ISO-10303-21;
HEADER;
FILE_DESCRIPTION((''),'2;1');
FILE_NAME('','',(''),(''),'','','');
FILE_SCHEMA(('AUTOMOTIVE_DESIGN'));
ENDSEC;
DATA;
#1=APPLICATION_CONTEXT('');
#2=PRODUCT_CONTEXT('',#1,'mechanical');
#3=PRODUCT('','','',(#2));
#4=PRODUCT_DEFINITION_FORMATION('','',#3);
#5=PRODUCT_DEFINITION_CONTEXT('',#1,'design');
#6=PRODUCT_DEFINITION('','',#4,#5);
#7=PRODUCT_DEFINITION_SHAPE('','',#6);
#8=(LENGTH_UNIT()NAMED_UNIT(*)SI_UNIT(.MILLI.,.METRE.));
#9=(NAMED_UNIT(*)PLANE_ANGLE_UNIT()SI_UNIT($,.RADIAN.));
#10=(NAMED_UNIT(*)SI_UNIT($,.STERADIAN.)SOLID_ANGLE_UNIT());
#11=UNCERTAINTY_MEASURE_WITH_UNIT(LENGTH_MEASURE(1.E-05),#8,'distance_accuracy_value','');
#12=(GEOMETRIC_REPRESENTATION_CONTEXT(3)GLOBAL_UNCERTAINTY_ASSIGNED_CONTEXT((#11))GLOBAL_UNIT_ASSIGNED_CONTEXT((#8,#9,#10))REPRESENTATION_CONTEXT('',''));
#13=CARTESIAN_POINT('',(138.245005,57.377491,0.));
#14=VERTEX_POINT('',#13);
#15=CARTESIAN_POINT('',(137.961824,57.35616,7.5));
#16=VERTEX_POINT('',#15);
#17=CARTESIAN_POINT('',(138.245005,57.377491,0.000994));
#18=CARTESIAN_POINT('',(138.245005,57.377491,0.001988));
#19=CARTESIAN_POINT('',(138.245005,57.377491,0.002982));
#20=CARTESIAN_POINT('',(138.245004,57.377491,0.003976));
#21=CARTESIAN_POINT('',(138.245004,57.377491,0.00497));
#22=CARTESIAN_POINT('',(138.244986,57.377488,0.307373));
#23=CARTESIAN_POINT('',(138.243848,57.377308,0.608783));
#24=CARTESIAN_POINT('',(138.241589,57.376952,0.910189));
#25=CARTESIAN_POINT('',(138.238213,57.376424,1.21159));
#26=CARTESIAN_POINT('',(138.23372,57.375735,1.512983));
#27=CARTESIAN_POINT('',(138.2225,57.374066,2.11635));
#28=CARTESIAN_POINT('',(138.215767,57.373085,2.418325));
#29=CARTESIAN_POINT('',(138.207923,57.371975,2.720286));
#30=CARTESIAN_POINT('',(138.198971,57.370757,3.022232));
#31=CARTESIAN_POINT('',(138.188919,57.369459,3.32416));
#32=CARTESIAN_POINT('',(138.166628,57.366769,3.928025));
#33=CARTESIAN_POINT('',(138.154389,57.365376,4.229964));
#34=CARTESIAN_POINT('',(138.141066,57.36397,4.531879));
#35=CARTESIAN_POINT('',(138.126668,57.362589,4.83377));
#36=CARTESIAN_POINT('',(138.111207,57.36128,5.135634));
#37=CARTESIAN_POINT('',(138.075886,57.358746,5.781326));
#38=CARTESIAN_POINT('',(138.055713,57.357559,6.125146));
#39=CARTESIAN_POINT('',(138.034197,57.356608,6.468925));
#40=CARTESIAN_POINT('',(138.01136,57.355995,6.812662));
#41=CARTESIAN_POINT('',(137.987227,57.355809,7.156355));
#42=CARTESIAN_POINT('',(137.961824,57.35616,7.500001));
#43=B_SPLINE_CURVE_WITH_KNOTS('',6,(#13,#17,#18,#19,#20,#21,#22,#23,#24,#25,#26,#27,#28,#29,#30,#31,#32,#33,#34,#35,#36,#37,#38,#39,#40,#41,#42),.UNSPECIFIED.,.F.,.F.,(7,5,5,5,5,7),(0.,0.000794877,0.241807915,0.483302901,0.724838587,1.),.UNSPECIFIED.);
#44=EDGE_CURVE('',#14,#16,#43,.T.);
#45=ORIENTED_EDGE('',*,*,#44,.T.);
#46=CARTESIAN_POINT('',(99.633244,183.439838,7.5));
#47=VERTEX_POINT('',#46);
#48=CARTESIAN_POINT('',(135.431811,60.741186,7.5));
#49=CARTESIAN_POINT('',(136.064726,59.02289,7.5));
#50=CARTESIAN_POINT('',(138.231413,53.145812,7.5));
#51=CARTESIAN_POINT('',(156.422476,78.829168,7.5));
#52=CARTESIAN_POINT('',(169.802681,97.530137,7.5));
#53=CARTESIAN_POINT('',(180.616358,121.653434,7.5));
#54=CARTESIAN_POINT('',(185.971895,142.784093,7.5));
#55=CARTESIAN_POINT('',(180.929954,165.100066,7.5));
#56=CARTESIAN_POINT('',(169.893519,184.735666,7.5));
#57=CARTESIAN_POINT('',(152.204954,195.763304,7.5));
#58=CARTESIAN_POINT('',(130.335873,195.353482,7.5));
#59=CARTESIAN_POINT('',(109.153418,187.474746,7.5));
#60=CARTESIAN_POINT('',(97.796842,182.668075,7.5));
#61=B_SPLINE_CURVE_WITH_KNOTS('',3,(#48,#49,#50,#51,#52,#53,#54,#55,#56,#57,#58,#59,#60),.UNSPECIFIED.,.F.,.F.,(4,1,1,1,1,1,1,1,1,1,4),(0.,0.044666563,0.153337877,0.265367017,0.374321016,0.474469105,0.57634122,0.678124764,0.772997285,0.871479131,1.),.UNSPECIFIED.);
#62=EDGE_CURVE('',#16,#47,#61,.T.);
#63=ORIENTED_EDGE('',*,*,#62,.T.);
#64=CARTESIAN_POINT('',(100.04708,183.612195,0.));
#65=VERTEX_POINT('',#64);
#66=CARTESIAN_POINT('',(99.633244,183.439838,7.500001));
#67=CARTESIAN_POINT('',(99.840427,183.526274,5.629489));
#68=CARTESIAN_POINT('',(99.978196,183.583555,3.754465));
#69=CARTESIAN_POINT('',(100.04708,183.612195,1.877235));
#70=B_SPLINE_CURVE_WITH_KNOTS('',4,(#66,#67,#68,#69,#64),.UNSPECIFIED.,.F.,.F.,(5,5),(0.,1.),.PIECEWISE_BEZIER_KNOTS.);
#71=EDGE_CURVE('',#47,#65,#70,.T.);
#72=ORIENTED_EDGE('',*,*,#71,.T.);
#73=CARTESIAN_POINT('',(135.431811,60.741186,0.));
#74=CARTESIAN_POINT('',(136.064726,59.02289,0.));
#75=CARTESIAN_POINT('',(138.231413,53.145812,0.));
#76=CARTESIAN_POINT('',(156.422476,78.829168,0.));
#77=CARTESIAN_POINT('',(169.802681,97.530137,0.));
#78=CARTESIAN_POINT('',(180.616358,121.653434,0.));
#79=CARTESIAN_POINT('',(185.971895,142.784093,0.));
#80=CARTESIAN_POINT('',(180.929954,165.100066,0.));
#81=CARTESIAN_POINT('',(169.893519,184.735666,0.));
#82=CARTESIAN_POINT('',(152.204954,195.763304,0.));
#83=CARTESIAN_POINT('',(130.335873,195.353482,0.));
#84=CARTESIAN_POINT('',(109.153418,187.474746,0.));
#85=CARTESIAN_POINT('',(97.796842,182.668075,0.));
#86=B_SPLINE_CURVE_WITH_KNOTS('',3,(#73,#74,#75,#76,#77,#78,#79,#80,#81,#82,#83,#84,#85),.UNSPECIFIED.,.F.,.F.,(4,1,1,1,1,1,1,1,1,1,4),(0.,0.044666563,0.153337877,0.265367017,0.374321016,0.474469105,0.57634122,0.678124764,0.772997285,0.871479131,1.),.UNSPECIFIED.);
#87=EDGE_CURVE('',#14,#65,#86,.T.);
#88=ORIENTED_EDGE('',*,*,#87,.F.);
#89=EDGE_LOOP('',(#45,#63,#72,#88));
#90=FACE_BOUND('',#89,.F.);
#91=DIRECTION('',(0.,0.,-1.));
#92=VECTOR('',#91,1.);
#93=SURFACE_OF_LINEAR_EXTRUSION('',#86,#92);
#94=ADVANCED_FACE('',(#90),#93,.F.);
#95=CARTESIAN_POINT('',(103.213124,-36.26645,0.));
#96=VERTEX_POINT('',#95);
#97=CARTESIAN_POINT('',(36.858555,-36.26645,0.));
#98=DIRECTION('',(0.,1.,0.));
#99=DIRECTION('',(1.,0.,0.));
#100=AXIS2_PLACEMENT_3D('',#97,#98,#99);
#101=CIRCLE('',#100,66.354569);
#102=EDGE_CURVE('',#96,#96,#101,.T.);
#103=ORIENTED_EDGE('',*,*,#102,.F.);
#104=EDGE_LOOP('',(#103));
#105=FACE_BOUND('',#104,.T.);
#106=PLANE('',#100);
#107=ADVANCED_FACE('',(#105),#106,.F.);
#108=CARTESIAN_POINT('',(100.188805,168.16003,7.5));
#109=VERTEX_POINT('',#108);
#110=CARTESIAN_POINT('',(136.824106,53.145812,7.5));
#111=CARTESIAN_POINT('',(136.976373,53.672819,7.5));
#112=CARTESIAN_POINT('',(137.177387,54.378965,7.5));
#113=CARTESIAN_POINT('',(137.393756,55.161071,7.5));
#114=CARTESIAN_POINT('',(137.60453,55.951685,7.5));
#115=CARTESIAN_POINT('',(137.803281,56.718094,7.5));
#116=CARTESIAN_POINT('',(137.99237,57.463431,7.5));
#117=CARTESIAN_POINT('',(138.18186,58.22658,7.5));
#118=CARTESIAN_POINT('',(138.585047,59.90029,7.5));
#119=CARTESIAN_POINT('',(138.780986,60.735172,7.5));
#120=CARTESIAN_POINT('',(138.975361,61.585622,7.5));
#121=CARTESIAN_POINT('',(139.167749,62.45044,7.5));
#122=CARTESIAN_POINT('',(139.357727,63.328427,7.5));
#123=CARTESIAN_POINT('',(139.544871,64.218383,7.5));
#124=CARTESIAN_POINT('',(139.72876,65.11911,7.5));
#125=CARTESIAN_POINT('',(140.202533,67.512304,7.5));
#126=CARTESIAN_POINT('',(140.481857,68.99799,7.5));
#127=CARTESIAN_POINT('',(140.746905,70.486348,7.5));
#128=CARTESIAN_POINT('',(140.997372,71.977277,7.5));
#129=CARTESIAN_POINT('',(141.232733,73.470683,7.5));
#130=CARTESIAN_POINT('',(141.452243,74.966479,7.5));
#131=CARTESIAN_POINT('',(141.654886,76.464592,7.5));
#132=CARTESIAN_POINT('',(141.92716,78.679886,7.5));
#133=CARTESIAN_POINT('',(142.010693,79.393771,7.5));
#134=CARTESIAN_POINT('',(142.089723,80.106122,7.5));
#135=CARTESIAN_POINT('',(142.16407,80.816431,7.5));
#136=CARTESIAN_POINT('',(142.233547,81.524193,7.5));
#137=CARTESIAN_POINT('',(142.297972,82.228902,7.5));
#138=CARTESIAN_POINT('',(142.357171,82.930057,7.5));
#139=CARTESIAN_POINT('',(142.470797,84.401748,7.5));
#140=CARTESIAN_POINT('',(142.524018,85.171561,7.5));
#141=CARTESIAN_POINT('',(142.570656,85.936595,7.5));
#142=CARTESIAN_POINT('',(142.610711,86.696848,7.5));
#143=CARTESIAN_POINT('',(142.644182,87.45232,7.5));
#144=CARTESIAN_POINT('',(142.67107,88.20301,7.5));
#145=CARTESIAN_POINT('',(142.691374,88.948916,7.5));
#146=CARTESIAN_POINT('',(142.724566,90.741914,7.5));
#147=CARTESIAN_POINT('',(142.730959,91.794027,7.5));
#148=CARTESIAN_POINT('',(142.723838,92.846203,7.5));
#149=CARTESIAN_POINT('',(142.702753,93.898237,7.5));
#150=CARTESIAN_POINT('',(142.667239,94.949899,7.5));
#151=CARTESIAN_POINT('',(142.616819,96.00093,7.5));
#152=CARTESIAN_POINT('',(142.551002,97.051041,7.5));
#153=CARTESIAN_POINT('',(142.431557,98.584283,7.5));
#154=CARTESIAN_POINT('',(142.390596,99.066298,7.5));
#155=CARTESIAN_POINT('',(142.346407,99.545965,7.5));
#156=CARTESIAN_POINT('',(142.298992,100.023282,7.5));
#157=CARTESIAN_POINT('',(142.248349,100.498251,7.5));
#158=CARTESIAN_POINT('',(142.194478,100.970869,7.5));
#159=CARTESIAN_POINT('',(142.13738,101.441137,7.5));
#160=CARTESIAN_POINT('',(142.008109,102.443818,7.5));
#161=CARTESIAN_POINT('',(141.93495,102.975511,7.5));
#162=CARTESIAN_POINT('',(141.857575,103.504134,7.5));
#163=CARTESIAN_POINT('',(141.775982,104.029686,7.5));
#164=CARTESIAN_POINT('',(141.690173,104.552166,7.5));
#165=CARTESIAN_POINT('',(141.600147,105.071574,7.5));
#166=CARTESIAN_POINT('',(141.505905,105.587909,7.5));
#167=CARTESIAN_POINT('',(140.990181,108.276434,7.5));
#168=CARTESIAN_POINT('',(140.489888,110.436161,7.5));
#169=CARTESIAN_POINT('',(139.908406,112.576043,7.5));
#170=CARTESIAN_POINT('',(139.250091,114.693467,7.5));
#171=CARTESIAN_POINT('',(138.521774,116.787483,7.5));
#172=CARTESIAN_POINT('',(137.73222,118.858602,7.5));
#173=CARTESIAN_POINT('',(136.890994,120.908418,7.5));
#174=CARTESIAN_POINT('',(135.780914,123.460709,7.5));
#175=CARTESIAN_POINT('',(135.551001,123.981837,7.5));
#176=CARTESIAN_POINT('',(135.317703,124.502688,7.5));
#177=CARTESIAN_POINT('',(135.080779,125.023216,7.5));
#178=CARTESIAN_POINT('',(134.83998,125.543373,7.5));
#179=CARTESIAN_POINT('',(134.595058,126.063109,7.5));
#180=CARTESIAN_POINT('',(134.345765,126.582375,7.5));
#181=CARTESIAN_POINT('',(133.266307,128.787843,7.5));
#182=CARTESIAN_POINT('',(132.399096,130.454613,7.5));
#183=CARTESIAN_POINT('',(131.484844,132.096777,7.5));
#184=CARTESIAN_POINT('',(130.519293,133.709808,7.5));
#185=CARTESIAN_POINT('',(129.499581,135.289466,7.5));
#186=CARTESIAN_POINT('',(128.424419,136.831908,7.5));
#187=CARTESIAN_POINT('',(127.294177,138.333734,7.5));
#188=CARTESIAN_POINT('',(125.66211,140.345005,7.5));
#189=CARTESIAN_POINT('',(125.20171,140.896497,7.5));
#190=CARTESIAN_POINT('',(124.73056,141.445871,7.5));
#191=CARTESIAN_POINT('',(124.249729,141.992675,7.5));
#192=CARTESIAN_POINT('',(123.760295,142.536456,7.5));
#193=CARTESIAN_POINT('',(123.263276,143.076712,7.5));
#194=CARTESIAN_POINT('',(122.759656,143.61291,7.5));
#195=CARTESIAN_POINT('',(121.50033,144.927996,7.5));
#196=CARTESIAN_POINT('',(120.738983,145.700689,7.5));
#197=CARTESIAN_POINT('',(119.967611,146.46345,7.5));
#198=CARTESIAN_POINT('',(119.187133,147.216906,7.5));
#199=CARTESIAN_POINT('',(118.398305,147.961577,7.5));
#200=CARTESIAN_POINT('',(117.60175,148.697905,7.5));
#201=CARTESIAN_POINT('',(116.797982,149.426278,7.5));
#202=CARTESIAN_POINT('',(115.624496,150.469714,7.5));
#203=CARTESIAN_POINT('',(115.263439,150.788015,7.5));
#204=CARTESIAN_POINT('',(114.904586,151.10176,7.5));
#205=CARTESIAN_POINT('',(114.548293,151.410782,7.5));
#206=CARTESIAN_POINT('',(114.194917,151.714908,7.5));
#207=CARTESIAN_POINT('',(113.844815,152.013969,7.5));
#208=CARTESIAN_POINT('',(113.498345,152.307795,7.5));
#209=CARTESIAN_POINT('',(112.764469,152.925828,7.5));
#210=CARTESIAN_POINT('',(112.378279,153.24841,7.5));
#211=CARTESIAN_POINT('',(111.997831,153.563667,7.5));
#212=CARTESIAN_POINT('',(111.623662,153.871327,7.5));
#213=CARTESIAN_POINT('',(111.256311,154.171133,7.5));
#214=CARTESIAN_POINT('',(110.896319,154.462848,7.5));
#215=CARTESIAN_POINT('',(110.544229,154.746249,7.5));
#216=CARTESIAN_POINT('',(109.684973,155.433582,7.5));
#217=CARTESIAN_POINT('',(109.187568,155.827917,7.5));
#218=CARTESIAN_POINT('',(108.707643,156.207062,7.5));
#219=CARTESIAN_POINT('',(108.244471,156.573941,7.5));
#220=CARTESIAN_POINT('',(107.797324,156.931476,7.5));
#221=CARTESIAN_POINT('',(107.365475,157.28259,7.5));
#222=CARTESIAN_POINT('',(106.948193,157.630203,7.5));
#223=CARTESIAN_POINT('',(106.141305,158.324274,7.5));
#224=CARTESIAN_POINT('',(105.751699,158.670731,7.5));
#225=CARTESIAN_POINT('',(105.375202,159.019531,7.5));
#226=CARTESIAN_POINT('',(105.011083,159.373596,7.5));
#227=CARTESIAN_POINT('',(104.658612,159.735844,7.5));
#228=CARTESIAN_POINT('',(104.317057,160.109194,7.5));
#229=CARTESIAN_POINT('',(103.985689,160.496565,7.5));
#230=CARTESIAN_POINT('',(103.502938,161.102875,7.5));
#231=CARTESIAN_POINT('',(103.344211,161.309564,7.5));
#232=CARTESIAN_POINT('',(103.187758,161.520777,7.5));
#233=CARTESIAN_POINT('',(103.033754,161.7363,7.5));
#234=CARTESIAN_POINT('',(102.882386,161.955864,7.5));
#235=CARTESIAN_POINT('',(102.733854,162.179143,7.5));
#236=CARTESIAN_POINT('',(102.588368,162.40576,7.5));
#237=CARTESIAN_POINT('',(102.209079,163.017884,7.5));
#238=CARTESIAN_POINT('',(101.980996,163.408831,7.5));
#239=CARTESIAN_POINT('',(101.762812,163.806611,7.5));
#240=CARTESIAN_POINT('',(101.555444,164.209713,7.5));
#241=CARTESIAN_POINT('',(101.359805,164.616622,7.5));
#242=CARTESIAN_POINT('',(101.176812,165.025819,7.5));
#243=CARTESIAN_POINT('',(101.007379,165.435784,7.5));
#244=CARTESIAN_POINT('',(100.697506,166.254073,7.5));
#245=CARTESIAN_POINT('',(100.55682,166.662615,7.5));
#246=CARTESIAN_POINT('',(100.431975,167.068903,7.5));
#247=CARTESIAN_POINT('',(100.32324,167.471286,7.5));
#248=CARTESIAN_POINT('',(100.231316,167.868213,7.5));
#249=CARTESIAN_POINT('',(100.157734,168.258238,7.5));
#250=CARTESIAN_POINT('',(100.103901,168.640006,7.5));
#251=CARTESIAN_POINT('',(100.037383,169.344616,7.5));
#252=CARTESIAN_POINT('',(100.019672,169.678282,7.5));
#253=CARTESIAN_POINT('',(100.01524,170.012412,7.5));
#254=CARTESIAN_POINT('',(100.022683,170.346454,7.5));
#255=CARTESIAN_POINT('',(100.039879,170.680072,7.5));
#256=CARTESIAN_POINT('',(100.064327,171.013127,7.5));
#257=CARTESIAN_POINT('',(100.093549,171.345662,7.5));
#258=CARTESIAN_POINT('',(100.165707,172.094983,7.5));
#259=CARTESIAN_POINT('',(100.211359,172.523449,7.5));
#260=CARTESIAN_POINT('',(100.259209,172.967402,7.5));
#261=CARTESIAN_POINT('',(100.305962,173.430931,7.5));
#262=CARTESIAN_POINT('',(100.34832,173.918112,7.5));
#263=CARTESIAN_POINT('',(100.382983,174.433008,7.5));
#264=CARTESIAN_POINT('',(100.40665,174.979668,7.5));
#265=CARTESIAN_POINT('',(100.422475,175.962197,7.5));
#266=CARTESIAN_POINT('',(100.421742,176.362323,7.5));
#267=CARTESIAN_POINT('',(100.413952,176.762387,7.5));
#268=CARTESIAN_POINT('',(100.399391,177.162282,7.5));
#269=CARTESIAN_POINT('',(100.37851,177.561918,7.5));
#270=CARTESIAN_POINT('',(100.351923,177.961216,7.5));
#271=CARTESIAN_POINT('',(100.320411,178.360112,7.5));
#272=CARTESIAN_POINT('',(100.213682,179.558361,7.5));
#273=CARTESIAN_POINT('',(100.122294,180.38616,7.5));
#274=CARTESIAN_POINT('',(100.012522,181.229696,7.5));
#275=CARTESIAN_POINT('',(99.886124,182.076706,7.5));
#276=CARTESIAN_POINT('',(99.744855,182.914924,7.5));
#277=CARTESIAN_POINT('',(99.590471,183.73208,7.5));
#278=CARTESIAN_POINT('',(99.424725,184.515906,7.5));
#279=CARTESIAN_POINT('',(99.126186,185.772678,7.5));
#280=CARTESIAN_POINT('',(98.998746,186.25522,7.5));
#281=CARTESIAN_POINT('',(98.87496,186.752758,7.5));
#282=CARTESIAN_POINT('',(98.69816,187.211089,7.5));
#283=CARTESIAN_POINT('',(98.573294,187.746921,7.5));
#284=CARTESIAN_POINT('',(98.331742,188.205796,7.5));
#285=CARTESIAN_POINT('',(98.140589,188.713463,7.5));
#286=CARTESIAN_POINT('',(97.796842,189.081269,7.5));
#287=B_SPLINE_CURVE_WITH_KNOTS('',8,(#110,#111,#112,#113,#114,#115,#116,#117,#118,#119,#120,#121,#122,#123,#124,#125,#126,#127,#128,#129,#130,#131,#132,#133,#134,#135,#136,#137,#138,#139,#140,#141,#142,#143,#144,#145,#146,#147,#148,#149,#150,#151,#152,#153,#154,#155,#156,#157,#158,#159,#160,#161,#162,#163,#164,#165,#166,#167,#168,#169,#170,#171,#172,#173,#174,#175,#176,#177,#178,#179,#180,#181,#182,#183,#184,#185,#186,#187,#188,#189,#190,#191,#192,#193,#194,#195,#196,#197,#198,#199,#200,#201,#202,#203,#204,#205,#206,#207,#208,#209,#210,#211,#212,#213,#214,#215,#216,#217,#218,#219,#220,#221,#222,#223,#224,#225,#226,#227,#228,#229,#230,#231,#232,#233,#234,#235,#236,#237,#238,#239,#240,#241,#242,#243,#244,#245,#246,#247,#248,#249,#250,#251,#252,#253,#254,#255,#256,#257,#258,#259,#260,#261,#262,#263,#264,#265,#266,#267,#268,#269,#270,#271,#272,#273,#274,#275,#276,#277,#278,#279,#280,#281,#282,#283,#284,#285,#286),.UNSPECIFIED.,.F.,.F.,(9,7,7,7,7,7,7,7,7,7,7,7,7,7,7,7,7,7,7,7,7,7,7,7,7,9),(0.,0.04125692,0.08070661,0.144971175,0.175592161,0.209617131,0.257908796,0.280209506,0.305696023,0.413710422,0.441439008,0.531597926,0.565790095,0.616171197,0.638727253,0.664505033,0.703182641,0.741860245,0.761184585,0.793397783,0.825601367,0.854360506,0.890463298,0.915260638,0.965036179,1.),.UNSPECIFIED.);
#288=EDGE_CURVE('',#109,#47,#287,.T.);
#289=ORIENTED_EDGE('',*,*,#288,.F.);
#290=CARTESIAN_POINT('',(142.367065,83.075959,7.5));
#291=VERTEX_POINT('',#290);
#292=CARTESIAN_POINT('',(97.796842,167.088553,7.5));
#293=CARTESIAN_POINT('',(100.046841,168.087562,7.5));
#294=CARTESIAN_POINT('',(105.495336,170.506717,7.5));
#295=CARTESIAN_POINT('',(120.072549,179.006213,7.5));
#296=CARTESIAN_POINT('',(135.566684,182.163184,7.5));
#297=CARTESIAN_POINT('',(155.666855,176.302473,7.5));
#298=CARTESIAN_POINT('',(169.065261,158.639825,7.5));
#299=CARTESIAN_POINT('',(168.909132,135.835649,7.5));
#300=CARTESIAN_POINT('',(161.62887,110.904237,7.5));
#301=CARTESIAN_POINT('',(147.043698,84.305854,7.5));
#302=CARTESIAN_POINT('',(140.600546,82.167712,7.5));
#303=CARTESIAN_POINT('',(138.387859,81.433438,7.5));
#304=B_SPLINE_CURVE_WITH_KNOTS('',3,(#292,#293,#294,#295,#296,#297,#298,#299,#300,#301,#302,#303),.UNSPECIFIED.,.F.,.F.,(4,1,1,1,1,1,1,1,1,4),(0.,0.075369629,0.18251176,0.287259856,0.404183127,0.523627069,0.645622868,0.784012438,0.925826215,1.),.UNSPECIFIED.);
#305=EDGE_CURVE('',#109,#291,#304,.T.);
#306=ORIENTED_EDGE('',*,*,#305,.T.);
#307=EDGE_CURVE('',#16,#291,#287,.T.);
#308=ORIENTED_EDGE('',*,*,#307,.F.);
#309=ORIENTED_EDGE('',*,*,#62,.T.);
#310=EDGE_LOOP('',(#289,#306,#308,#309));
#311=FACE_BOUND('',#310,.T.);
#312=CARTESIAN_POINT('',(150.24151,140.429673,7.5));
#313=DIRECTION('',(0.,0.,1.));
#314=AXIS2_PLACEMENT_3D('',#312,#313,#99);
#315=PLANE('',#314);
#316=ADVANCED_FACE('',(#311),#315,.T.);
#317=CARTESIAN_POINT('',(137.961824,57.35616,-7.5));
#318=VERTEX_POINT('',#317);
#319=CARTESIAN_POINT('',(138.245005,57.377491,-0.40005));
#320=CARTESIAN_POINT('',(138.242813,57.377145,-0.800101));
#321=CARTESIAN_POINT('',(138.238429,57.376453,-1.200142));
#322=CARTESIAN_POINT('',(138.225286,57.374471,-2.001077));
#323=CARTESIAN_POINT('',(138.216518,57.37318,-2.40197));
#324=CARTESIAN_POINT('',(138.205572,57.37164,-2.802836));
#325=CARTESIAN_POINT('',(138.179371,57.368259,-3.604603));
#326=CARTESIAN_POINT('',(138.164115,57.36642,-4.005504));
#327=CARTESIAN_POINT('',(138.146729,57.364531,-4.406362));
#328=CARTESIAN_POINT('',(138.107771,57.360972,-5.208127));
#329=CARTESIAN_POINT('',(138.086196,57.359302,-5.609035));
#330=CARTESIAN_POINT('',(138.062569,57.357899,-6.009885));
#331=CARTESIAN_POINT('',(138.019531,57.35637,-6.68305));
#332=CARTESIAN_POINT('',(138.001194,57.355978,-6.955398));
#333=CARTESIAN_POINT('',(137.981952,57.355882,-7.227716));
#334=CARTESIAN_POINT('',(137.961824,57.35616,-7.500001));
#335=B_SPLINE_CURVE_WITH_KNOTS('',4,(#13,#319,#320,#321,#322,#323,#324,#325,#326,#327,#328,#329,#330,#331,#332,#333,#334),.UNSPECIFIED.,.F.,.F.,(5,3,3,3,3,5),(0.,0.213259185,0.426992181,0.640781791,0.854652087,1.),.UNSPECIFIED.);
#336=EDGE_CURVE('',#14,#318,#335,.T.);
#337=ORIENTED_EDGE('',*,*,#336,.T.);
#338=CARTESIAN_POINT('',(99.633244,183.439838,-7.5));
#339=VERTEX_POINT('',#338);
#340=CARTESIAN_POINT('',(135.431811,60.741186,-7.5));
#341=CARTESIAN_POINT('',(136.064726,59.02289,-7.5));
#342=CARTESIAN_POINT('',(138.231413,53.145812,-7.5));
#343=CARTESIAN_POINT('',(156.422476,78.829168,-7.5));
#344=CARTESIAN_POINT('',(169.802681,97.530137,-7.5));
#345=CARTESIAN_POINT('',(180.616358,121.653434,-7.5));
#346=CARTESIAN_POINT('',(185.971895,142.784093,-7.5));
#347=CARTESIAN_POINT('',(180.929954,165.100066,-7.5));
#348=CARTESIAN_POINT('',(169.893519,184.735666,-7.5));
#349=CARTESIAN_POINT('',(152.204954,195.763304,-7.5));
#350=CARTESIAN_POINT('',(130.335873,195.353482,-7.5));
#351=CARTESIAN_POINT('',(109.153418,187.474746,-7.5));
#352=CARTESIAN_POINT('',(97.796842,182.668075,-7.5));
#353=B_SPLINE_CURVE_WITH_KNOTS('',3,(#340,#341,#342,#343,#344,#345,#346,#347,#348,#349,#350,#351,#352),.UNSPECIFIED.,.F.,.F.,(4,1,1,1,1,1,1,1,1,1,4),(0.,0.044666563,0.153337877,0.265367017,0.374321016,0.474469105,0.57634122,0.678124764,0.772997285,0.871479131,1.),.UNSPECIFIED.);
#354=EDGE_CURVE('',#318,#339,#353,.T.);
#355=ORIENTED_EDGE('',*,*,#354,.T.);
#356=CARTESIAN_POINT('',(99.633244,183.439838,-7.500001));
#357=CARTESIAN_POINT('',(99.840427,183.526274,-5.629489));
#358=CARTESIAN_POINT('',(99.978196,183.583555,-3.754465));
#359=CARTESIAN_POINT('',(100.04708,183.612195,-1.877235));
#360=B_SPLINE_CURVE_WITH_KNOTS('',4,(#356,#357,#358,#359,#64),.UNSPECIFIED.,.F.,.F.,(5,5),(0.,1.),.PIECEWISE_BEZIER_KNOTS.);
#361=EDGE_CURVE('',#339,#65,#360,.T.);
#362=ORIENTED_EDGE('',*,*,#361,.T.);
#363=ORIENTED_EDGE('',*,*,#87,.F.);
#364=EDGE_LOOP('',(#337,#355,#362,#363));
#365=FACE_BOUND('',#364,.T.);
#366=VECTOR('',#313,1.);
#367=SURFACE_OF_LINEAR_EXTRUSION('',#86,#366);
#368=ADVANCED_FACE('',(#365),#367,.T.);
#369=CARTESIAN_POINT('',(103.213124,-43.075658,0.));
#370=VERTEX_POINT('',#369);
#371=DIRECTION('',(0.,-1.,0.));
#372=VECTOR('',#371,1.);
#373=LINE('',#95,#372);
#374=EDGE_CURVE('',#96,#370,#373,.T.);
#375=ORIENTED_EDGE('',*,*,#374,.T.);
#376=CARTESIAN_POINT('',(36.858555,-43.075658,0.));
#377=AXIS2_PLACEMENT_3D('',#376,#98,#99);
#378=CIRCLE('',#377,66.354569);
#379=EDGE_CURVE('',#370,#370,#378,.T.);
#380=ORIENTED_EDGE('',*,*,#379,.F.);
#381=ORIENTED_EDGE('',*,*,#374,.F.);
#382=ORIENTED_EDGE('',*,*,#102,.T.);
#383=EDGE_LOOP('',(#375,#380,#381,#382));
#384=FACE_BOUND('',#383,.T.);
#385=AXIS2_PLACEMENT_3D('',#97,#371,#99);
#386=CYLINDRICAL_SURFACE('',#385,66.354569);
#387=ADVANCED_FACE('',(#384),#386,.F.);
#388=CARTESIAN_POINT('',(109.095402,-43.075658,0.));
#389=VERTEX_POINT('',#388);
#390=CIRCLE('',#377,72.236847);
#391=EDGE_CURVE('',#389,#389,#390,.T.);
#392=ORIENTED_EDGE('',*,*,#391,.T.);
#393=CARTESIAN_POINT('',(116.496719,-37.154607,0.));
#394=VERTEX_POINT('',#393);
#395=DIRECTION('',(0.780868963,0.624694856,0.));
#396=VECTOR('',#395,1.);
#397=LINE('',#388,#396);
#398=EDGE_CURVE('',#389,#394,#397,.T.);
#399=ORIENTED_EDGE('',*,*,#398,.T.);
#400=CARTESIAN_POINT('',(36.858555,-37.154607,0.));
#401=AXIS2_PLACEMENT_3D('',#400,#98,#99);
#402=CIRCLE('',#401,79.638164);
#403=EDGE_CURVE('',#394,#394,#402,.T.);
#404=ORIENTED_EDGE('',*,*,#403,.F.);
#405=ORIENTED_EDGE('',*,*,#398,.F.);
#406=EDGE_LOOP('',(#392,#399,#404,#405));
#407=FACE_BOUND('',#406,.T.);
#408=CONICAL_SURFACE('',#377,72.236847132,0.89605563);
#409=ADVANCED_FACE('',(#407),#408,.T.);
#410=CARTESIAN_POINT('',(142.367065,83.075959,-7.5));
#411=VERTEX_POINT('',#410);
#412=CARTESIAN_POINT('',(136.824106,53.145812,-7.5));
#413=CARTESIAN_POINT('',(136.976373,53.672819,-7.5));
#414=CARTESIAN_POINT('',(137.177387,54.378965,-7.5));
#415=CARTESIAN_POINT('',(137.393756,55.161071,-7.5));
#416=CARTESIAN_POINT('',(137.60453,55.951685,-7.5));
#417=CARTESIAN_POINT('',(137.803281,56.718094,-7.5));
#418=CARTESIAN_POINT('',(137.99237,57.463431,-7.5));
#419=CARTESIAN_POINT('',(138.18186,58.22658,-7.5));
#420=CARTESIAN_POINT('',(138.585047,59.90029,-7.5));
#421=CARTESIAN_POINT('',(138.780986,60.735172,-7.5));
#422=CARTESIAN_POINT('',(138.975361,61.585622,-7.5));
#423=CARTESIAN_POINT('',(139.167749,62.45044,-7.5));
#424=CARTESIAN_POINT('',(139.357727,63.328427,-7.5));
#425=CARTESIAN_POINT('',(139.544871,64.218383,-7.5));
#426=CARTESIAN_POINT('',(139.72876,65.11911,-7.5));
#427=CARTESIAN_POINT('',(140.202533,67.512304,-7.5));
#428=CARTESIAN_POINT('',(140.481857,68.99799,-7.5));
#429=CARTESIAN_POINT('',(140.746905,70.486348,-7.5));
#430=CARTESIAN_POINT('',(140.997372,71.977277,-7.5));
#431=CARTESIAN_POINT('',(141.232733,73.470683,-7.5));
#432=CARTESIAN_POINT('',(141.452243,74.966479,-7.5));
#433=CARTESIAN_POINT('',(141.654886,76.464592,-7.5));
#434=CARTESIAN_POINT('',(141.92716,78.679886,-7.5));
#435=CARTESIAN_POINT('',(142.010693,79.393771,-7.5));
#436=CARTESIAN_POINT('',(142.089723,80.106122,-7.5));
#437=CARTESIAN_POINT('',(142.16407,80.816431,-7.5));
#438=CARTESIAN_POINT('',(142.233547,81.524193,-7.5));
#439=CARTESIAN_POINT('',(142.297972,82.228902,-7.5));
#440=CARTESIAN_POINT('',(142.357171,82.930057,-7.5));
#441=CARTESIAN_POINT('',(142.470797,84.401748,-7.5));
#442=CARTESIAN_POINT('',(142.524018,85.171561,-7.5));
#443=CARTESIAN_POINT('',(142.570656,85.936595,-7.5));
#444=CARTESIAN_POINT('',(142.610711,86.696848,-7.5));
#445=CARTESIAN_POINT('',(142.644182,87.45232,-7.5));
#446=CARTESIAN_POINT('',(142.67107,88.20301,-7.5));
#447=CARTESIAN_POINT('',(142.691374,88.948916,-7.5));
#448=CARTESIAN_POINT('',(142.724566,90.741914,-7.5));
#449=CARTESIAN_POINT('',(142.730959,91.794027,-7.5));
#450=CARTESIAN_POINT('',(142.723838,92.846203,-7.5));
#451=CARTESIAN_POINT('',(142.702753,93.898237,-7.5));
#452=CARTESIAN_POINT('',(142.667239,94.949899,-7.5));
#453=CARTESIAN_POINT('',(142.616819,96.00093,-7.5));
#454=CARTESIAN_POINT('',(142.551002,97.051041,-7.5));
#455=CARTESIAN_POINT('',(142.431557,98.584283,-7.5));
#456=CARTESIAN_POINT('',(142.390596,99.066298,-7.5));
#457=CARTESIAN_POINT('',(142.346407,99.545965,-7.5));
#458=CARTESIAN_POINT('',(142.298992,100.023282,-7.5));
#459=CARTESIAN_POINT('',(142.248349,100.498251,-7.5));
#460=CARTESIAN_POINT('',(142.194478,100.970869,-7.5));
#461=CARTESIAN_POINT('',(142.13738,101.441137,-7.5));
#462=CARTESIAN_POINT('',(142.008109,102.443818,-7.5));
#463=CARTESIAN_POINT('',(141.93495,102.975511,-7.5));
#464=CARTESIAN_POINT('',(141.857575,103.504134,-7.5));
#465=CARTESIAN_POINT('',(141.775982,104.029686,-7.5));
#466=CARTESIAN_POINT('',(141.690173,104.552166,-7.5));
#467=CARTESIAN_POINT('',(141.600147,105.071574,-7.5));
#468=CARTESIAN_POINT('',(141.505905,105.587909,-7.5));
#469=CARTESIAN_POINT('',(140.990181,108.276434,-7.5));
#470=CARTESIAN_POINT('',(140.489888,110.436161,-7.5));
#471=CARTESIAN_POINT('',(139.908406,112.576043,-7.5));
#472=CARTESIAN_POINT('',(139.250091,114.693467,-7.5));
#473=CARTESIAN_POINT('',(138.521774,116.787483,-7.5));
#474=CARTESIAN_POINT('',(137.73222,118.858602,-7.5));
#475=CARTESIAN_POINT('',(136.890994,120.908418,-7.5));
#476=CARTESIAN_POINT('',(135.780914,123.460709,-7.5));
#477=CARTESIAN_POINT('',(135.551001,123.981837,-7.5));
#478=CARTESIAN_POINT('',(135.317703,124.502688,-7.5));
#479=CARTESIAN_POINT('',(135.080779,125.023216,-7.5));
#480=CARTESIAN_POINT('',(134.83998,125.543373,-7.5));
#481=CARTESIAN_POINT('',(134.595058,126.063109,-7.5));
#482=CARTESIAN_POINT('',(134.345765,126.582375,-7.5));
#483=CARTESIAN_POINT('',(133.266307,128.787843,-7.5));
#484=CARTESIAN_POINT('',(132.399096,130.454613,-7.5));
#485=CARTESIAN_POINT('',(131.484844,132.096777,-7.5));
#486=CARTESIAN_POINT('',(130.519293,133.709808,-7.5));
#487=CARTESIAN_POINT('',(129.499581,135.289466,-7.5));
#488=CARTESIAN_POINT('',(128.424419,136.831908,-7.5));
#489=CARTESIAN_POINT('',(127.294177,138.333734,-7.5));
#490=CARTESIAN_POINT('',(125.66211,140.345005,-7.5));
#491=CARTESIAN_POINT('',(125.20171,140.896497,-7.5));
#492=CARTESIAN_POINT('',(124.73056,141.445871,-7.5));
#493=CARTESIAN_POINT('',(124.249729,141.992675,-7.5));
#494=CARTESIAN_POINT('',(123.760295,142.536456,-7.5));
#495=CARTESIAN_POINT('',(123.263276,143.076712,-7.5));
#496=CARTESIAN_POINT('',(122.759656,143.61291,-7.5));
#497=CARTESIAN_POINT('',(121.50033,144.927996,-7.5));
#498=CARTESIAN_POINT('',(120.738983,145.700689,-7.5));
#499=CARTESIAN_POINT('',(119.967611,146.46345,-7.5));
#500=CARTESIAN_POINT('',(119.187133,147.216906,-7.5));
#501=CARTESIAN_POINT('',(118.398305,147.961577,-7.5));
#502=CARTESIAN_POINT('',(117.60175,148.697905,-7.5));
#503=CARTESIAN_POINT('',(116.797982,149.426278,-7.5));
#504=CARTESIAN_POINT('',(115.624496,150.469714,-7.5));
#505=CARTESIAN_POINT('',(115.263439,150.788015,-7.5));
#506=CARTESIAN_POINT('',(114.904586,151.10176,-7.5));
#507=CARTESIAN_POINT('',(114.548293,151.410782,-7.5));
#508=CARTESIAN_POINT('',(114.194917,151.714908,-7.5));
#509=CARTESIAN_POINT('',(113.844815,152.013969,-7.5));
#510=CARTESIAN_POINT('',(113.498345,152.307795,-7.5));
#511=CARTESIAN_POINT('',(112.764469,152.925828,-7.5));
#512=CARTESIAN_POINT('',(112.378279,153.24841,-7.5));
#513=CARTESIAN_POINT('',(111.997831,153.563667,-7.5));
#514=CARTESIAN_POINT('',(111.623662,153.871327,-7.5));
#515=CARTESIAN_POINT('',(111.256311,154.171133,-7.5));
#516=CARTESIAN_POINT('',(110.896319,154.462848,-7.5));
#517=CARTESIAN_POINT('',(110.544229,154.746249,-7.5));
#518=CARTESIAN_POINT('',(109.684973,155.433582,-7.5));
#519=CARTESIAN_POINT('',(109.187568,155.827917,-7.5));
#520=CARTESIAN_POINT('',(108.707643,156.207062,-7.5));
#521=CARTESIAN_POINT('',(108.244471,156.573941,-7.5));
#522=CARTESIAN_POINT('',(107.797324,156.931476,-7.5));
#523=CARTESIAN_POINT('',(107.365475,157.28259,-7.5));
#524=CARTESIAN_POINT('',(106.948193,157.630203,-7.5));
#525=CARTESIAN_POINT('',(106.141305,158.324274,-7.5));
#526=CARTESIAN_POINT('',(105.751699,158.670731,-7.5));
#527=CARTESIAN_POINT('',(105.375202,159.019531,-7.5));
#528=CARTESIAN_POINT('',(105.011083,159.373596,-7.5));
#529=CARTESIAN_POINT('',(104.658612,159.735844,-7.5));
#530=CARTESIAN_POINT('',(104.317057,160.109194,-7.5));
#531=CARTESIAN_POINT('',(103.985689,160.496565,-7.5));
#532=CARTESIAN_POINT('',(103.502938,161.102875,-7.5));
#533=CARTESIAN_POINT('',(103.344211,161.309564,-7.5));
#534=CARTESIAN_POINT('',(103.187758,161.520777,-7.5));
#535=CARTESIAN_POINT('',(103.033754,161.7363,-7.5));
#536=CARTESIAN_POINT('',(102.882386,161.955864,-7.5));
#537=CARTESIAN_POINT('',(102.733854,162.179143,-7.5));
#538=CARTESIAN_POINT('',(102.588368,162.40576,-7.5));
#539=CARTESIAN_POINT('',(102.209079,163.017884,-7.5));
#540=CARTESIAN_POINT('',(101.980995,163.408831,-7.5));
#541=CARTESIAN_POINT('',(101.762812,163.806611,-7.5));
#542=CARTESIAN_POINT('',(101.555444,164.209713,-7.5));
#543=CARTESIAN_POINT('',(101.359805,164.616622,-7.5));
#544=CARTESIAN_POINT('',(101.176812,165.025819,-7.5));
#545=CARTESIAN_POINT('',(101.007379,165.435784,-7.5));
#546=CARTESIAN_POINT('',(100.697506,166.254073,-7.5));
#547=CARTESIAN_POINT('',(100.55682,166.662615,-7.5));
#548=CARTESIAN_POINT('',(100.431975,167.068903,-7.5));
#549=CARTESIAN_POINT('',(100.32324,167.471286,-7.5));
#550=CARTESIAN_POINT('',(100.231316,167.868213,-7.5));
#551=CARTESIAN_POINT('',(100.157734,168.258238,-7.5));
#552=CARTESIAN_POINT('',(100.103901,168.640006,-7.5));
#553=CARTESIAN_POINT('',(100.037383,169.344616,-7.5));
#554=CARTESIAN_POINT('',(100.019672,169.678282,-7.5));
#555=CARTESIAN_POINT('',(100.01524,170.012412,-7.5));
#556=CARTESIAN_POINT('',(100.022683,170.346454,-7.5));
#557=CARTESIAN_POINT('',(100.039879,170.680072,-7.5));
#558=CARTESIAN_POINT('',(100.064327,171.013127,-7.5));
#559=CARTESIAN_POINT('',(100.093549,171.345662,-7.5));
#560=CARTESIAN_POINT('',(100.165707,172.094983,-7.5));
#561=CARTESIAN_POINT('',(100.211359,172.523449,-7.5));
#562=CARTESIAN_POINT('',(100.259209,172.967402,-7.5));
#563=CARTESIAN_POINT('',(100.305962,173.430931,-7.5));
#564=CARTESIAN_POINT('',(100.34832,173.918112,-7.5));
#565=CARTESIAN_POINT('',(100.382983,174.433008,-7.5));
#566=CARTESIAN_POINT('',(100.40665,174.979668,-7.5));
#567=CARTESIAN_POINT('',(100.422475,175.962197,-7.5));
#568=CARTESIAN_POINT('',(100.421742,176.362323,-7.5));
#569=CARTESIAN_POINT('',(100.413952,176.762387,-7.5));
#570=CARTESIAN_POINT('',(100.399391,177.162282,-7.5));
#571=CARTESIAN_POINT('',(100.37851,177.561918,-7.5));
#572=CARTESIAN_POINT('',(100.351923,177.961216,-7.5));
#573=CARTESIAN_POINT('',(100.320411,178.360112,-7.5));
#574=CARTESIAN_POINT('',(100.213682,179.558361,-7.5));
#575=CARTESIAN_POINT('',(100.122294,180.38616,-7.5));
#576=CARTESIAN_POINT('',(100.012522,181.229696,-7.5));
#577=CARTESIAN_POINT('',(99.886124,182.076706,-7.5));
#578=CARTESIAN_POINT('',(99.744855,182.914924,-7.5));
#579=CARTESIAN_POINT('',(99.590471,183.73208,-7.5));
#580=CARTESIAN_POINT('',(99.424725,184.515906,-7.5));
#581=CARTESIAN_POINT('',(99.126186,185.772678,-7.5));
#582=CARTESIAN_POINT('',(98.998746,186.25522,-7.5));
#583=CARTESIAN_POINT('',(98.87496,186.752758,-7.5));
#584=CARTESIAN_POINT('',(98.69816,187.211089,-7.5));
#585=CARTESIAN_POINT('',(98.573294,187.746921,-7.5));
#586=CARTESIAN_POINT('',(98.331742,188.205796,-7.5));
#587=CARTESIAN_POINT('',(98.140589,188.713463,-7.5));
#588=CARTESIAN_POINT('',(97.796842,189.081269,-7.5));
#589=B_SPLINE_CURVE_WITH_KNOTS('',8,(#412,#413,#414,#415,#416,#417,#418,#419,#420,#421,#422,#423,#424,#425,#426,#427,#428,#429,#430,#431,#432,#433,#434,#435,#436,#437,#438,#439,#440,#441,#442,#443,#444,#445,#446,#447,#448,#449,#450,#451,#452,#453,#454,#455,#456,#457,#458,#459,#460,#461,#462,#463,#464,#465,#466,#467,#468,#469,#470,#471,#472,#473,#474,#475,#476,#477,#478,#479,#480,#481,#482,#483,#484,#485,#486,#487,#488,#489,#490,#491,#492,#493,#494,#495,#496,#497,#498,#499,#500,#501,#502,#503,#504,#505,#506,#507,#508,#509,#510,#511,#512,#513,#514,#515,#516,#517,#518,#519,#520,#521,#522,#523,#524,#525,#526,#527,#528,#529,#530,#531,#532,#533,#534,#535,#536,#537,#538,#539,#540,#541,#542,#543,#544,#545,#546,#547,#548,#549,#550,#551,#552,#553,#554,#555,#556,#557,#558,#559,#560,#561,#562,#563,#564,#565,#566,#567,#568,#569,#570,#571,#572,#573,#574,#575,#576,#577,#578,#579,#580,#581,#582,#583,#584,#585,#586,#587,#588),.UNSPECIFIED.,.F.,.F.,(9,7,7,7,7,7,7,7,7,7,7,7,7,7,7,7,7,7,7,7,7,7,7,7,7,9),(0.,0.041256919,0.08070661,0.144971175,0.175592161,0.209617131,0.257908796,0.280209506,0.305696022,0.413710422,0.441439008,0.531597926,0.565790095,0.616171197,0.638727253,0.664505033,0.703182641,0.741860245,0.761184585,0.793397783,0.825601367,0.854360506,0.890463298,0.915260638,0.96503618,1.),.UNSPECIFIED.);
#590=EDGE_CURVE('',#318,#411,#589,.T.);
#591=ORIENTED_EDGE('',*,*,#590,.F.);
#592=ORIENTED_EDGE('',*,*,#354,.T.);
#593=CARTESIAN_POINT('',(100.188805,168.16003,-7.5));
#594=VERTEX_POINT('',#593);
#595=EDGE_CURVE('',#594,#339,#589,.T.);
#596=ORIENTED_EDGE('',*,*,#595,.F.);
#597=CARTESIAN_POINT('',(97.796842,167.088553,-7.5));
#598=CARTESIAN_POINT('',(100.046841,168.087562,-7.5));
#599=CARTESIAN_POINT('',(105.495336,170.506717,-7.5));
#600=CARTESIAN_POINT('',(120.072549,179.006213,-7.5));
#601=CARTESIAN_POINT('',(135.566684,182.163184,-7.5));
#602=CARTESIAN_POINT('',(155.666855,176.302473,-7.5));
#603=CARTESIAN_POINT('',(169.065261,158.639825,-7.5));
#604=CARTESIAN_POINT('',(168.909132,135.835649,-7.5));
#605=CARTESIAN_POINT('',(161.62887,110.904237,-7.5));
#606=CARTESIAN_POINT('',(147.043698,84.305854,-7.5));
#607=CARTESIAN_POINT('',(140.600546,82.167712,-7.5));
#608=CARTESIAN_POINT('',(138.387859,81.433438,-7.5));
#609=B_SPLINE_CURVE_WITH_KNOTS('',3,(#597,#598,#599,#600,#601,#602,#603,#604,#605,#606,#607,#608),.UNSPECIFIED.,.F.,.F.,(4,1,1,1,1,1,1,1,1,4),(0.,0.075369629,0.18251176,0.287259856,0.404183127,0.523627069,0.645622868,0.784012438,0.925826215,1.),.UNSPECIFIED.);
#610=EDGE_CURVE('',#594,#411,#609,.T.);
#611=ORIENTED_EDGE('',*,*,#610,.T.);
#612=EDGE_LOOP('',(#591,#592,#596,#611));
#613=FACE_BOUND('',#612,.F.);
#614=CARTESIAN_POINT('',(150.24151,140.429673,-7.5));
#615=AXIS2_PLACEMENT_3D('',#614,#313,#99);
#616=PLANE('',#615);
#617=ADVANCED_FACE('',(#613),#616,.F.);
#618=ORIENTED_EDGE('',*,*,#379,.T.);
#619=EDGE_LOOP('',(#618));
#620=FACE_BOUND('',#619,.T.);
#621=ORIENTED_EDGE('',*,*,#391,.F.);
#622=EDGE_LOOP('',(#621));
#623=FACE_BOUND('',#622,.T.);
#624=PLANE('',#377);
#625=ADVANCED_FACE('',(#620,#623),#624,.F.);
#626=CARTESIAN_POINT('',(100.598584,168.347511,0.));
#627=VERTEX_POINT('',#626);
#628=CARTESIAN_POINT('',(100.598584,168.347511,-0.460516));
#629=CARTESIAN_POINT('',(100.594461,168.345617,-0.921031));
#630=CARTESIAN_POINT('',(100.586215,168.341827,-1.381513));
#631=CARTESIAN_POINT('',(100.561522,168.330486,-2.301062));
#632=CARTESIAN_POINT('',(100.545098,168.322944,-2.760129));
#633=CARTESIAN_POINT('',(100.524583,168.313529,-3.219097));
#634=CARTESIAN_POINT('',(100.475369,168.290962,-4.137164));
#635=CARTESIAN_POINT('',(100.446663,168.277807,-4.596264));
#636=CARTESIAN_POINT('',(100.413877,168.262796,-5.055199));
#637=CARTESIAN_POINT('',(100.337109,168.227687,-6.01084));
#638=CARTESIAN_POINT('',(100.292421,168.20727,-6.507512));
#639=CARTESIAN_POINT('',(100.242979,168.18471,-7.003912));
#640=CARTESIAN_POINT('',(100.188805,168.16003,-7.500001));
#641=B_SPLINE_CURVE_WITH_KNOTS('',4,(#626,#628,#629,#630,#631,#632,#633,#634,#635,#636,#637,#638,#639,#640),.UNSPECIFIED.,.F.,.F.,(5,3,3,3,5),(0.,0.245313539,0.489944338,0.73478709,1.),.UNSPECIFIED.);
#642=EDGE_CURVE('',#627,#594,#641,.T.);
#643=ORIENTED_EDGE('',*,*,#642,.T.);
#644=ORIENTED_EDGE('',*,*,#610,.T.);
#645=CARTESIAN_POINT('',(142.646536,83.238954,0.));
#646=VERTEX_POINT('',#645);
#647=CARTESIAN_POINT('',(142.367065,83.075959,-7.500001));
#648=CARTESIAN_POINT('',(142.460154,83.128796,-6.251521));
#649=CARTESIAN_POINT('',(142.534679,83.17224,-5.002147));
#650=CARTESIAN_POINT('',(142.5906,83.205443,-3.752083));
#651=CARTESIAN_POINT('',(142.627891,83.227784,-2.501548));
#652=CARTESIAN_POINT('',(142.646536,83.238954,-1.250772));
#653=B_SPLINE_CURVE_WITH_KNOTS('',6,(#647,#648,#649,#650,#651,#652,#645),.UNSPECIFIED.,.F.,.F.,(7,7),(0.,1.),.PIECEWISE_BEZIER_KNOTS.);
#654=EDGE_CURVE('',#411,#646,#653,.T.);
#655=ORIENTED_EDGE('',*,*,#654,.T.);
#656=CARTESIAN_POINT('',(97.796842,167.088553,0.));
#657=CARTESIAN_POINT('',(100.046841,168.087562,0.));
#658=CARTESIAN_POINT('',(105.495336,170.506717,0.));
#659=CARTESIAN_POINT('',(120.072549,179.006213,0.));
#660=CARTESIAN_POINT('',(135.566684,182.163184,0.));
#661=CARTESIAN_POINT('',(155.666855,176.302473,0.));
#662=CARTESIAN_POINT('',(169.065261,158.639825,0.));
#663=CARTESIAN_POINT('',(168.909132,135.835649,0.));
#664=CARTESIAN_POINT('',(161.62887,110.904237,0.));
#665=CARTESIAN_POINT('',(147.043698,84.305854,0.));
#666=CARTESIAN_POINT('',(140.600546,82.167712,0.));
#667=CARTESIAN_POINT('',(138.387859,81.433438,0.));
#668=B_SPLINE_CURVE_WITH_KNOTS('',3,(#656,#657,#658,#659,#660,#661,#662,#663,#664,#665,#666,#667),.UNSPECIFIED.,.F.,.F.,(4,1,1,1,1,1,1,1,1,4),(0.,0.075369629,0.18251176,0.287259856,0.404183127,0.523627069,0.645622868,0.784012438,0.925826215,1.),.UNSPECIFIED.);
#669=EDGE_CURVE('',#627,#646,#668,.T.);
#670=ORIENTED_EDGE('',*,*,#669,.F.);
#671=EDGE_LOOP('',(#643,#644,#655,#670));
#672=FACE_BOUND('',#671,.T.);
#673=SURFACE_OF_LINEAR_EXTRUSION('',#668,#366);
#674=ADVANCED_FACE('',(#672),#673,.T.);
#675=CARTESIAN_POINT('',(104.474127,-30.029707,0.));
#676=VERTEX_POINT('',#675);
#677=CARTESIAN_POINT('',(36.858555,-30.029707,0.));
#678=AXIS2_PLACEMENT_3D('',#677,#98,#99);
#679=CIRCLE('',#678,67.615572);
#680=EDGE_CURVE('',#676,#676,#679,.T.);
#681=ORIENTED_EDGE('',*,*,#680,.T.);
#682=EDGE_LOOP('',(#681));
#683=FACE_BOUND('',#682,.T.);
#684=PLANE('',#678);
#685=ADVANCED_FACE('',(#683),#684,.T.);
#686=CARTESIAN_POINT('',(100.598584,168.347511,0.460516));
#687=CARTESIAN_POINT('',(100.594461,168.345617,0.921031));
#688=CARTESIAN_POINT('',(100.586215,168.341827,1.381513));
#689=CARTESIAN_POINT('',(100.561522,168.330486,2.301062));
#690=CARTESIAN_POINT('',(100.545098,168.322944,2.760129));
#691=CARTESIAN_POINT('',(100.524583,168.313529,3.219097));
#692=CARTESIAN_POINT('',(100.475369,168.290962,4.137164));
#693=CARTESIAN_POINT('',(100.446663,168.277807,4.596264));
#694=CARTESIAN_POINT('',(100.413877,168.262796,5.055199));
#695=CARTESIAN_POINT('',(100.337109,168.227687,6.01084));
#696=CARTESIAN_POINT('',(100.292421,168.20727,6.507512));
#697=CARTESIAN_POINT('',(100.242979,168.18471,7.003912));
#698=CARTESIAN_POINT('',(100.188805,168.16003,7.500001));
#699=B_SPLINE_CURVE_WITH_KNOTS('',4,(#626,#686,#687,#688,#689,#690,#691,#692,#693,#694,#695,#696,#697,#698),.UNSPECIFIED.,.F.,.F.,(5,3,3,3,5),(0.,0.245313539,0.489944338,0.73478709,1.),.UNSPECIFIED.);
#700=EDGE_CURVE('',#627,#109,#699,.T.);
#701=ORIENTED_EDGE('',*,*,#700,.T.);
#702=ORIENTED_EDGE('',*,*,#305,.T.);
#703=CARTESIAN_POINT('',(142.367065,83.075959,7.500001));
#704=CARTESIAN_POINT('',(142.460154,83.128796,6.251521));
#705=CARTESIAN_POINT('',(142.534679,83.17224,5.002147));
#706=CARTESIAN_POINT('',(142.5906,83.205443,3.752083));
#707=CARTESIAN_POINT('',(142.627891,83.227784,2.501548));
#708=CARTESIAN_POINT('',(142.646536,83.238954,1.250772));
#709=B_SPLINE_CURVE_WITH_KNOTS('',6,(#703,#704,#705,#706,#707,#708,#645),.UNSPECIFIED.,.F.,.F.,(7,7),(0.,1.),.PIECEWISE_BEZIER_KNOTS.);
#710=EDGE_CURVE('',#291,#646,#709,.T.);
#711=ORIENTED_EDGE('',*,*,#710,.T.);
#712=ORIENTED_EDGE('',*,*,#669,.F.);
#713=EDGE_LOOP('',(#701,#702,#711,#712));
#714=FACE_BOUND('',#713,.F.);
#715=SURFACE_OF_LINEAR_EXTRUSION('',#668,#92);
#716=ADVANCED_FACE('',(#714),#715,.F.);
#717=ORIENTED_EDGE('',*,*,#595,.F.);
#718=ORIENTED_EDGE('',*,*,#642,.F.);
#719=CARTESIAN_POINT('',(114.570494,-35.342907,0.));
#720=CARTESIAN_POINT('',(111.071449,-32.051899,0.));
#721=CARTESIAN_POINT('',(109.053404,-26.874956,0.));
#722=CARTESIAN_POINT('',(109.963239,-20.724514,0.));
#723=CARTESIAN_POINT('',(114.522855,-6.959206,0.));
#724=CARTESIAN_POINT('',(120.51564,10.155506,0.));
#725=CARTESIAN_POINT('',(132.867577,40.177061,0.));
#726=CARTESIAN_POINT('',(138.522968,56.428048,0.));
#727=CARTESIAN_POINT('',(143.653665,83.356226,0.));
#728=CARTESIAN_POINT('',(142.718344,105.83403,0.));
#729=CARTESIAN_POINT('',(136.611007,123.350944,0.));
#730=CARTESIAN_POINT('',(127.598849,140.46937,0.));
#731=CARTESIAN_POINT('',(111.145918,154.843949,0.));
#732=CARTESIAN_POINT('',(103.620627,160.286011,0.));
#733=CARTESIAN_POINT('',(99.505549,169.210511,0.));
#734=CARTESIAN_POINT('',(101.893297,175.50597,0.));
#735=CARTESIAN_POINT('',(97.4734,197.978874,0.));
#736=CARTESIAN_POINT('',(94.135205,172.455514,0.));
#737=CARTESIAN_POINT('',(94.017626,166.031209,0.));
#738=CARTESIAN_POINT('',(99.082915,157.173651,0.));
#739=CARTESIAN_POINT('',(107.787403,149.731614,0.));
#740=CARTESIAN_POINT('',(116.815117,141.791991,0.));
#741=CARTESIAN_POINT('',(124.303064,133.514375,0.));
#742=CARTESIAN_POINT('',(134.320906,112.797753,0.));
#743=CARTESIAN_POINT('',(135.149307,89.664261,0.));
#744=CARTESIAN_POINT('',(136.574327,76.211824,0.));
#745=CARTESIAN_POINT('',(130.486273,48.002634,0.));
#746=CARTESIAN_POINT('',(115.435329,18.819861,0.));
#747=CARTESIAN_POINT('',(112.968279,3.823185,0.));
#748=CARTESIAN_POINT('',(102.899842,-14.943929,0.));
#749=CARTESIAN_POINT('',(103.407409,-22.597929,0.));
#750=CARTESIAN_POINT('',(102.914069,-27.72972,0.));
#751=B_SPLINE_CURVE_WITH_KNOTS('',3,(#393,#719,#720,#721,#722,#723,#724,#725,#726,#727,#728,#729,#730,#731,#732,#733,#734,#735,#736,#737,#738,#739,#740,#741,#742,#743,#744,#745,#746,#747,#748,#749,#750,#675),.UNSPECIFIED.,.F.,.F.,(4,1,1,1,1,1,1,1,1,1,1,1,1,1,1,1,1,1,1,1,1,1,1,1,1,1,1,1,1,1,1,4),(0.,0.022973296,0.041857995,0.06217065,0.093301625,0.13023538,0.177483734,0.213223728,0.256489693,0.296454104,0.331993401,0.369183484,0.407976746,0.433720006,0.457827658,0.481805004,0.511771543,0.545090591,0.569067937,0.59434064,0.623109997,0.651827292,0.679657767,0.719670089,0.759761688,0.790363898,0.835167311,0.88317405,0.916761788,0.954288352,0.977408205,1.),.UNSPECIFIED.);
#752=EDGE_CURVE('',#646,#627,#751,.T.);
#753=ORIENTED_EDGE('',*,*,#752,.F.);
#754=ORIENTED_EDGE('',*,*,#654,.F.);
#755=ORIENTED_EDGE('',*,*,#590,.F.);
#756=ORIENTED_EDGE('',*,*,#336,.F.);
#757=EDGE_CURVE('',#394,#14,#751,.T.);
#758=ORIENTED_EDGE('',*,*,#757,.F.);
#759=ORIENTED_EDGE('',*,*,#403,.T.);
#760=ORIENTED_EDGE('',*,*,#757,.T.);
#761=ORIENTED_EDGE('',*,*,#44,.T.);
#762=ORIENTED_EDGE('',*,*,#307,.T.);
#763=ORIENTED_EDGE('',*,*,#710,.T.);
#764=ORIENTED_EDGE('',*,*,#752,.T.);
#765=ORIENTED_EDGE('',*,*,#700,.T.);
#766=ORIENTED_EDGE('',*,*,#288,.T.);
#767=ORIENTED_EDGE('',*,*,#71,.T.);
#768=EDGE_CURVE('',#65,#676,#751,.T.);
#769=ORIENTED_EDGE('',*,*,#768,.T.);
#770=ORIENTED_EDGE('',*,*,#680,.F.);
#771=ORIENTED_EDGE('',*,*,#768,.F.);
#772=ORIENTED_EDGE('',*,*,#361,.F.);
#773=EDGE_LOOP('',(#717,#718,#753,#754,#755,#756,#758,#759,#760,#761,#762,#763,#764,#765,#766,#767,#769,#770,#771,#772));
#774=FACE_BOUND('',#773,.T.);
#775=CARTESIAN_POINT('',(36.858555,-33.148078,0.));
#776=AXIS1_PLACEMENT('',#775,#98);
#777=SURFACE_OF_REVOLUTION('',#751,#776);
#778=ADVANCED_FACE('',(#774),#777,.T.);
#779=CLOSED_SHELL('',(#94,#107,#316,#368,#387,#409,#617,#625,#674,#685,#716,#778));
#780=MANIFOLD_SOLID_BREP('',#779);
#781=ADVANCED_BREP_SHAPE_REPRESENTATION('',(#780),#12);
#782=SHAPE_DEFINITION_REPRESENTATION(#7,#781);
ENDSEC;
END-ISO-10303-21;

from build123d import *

# Parameters (mm, degrees)
F3_DEPTH = 7.5


with BuildPart() as f1:
    # F0 (on Top) → F1 (revolve)
    with BuildSketch(Plane.XY):
        with BuildLine():
            Line((36.8585549295, -30.0297066569), (36.8585549295, -36.2664498389))
            Line((36.8585549295, -36.2664498389), (103.2131239772, -36.2664498389))
            Line((103.2131239772, -36.2664498389), (103.2131239772, -43.075658381))
            Line((103.2131239772, -43.075658381), (109.0954020619, -43.075658381))
            Line((109.0954020619, -43.075658381), (116.49671942, -37.1546074748))
            add(Edge.make_bspline(
                [(116.49671942, -37.1546074748), (114.5704943629, -35.34290718), (111.0714486116, -32.0518991039), (109.0534039158, -26.8749563072), (109.9632386701, -20.7245139751), (114.5228554064, -6.9592064511), (120.5156403579, 10.1555063557), (132.8675766745, 40.1770613355), (138.5229680013, 56.4280482227), (143.6536653382, 83.3562260407), (142.7183439291, 105.8340302347), (136.6110067993, 123.3509437832), (127.5988487849, 140.4693704708), (111.1459184512, 154.8439488163), (103.62062693, 160.2860111179), (99.5055491717, 169.2105112609), (101.8932965401, 175.5059699541), (97.4733995456, 197.9788737462), (94.1352046386, 172.455514153), (94.017626293, 166.0312091108), (99.082915019, 157.173651007), (107.7874028821, 149.7316143297), (116.8151170609, 141.791990691), (124.3030642519, 133.5143753658), (134.3209058719, 112.7977525509), (135.1493069069, 89.6642608725), (136.5743274829, 76.211824056), (130.4862729924, 48.0026340056), (115.4353292714, 18.8198613179), (112.9682794371, 3.8231846939), (102.8998422542, -14.943929234), (103.4074090134, -22.5979285216), (102.9140687528, -27.7297196093), (104.4741272926, -30.0297066569)],
                knots=[0, 0, 0, 0, 0.0229732958, 0.0418579945, 0.0621706499, 0.0933016255, 0.13023538, 0.1774837345, 0.2132237278, 0.2564896926, 0.2964541042, 0.3319934007, 0.3691834836, 0.4079767458, 0.4337200064, 0.4578276583, 0.4818050039, 0.5117715427, 0.5450905911, 0.5690679367, 0.5943406396, 0.6231099972, 0.6518272923, 0.6796577669, 0.7196700893, 0.7597616884, 0.7903638981, 0.8351673107, 0.8831740495, 0.9167617877, 0.954288352, 0.9774082051, 1, 1, 1, 1], degree=3))
            Line((104.4741272926, -30.0297066569), (36.8585549295, -30.0297066569))
        make_face()
    revolve(axis=Axis((36.8585549295, -33.1480782479, 0), (0, 1, 0)))

    # F2 (on Top) → F3 (join, symmetric)
    with BuildSketch(Plane.XY):
        with BuildLine():
            add(Edge.make_bspline(
                [(97.7968424559, 167.0885533094), (100.0468405556, 168.0875619213), (105.4953364199, 170.5067169823), (120.0725492771, 179.006213218), (135.5666839022, 182.1631835085), (155.6668549896, 176.3024729988), (169.0652607847, 158.6398248877), (168.9091318135, 135.8356489644), (161.6288703277, 110.9042368496), (147.0436983331, 84.3058537876), (140.6005463441, 82.167711891), (138.3878588676, 81.4334377646)],
                knots=[0, 0, 0, 0, 0.0753696293, 0.1825117602, 0.2872598557, 0.4041831272, 0.5236270692, 0.6456228685, 0.784012438, 0.9258262145, 1, 1, 1, 1], degree=3))
            Line((138.3878588676, 81.4334377646), (138.3878588676, 69.0180808306))
            Line((138.3878588676, 69.0180808306), (135.4318112135, 60.741186142))
            add(Edge.make_bspline(
                [(135.4318112135, 60.741186142), (136.0647261993, 59.0228901816), (138.2314130208, 53.1458118033), (156.4224762916, 78.8291679954), (169.8026805515, 97.5301365976), (180.6163584989, 121.6534343232), (185.9718951839, 142.784092736), (180.9299542626, 165.1000659323), (169.8935185644, 184.7356659431), (152.2049541565, 195.7633043599), (130.3358732428, 195.3534818067), (109.1534184735, 187.474745567), (97.7968424559, 182.6680749655)],
                knots=[0, 0, 0, 0, 0.044666563, 0.1533378771, 0.2653670173, 0.3743210165, 0.4744691047, 0.5763412198, 0.6781247644, 0.7729972845, 0.8714791314, 1, 1, 1, 1], degree=3))
            Line((97.7968424559, 182.6680749655), (97.7968424559, 167.0885533094))
        make_face()
    extrude(amount=F3_DEPTH, both=True)


solid = f1.part
